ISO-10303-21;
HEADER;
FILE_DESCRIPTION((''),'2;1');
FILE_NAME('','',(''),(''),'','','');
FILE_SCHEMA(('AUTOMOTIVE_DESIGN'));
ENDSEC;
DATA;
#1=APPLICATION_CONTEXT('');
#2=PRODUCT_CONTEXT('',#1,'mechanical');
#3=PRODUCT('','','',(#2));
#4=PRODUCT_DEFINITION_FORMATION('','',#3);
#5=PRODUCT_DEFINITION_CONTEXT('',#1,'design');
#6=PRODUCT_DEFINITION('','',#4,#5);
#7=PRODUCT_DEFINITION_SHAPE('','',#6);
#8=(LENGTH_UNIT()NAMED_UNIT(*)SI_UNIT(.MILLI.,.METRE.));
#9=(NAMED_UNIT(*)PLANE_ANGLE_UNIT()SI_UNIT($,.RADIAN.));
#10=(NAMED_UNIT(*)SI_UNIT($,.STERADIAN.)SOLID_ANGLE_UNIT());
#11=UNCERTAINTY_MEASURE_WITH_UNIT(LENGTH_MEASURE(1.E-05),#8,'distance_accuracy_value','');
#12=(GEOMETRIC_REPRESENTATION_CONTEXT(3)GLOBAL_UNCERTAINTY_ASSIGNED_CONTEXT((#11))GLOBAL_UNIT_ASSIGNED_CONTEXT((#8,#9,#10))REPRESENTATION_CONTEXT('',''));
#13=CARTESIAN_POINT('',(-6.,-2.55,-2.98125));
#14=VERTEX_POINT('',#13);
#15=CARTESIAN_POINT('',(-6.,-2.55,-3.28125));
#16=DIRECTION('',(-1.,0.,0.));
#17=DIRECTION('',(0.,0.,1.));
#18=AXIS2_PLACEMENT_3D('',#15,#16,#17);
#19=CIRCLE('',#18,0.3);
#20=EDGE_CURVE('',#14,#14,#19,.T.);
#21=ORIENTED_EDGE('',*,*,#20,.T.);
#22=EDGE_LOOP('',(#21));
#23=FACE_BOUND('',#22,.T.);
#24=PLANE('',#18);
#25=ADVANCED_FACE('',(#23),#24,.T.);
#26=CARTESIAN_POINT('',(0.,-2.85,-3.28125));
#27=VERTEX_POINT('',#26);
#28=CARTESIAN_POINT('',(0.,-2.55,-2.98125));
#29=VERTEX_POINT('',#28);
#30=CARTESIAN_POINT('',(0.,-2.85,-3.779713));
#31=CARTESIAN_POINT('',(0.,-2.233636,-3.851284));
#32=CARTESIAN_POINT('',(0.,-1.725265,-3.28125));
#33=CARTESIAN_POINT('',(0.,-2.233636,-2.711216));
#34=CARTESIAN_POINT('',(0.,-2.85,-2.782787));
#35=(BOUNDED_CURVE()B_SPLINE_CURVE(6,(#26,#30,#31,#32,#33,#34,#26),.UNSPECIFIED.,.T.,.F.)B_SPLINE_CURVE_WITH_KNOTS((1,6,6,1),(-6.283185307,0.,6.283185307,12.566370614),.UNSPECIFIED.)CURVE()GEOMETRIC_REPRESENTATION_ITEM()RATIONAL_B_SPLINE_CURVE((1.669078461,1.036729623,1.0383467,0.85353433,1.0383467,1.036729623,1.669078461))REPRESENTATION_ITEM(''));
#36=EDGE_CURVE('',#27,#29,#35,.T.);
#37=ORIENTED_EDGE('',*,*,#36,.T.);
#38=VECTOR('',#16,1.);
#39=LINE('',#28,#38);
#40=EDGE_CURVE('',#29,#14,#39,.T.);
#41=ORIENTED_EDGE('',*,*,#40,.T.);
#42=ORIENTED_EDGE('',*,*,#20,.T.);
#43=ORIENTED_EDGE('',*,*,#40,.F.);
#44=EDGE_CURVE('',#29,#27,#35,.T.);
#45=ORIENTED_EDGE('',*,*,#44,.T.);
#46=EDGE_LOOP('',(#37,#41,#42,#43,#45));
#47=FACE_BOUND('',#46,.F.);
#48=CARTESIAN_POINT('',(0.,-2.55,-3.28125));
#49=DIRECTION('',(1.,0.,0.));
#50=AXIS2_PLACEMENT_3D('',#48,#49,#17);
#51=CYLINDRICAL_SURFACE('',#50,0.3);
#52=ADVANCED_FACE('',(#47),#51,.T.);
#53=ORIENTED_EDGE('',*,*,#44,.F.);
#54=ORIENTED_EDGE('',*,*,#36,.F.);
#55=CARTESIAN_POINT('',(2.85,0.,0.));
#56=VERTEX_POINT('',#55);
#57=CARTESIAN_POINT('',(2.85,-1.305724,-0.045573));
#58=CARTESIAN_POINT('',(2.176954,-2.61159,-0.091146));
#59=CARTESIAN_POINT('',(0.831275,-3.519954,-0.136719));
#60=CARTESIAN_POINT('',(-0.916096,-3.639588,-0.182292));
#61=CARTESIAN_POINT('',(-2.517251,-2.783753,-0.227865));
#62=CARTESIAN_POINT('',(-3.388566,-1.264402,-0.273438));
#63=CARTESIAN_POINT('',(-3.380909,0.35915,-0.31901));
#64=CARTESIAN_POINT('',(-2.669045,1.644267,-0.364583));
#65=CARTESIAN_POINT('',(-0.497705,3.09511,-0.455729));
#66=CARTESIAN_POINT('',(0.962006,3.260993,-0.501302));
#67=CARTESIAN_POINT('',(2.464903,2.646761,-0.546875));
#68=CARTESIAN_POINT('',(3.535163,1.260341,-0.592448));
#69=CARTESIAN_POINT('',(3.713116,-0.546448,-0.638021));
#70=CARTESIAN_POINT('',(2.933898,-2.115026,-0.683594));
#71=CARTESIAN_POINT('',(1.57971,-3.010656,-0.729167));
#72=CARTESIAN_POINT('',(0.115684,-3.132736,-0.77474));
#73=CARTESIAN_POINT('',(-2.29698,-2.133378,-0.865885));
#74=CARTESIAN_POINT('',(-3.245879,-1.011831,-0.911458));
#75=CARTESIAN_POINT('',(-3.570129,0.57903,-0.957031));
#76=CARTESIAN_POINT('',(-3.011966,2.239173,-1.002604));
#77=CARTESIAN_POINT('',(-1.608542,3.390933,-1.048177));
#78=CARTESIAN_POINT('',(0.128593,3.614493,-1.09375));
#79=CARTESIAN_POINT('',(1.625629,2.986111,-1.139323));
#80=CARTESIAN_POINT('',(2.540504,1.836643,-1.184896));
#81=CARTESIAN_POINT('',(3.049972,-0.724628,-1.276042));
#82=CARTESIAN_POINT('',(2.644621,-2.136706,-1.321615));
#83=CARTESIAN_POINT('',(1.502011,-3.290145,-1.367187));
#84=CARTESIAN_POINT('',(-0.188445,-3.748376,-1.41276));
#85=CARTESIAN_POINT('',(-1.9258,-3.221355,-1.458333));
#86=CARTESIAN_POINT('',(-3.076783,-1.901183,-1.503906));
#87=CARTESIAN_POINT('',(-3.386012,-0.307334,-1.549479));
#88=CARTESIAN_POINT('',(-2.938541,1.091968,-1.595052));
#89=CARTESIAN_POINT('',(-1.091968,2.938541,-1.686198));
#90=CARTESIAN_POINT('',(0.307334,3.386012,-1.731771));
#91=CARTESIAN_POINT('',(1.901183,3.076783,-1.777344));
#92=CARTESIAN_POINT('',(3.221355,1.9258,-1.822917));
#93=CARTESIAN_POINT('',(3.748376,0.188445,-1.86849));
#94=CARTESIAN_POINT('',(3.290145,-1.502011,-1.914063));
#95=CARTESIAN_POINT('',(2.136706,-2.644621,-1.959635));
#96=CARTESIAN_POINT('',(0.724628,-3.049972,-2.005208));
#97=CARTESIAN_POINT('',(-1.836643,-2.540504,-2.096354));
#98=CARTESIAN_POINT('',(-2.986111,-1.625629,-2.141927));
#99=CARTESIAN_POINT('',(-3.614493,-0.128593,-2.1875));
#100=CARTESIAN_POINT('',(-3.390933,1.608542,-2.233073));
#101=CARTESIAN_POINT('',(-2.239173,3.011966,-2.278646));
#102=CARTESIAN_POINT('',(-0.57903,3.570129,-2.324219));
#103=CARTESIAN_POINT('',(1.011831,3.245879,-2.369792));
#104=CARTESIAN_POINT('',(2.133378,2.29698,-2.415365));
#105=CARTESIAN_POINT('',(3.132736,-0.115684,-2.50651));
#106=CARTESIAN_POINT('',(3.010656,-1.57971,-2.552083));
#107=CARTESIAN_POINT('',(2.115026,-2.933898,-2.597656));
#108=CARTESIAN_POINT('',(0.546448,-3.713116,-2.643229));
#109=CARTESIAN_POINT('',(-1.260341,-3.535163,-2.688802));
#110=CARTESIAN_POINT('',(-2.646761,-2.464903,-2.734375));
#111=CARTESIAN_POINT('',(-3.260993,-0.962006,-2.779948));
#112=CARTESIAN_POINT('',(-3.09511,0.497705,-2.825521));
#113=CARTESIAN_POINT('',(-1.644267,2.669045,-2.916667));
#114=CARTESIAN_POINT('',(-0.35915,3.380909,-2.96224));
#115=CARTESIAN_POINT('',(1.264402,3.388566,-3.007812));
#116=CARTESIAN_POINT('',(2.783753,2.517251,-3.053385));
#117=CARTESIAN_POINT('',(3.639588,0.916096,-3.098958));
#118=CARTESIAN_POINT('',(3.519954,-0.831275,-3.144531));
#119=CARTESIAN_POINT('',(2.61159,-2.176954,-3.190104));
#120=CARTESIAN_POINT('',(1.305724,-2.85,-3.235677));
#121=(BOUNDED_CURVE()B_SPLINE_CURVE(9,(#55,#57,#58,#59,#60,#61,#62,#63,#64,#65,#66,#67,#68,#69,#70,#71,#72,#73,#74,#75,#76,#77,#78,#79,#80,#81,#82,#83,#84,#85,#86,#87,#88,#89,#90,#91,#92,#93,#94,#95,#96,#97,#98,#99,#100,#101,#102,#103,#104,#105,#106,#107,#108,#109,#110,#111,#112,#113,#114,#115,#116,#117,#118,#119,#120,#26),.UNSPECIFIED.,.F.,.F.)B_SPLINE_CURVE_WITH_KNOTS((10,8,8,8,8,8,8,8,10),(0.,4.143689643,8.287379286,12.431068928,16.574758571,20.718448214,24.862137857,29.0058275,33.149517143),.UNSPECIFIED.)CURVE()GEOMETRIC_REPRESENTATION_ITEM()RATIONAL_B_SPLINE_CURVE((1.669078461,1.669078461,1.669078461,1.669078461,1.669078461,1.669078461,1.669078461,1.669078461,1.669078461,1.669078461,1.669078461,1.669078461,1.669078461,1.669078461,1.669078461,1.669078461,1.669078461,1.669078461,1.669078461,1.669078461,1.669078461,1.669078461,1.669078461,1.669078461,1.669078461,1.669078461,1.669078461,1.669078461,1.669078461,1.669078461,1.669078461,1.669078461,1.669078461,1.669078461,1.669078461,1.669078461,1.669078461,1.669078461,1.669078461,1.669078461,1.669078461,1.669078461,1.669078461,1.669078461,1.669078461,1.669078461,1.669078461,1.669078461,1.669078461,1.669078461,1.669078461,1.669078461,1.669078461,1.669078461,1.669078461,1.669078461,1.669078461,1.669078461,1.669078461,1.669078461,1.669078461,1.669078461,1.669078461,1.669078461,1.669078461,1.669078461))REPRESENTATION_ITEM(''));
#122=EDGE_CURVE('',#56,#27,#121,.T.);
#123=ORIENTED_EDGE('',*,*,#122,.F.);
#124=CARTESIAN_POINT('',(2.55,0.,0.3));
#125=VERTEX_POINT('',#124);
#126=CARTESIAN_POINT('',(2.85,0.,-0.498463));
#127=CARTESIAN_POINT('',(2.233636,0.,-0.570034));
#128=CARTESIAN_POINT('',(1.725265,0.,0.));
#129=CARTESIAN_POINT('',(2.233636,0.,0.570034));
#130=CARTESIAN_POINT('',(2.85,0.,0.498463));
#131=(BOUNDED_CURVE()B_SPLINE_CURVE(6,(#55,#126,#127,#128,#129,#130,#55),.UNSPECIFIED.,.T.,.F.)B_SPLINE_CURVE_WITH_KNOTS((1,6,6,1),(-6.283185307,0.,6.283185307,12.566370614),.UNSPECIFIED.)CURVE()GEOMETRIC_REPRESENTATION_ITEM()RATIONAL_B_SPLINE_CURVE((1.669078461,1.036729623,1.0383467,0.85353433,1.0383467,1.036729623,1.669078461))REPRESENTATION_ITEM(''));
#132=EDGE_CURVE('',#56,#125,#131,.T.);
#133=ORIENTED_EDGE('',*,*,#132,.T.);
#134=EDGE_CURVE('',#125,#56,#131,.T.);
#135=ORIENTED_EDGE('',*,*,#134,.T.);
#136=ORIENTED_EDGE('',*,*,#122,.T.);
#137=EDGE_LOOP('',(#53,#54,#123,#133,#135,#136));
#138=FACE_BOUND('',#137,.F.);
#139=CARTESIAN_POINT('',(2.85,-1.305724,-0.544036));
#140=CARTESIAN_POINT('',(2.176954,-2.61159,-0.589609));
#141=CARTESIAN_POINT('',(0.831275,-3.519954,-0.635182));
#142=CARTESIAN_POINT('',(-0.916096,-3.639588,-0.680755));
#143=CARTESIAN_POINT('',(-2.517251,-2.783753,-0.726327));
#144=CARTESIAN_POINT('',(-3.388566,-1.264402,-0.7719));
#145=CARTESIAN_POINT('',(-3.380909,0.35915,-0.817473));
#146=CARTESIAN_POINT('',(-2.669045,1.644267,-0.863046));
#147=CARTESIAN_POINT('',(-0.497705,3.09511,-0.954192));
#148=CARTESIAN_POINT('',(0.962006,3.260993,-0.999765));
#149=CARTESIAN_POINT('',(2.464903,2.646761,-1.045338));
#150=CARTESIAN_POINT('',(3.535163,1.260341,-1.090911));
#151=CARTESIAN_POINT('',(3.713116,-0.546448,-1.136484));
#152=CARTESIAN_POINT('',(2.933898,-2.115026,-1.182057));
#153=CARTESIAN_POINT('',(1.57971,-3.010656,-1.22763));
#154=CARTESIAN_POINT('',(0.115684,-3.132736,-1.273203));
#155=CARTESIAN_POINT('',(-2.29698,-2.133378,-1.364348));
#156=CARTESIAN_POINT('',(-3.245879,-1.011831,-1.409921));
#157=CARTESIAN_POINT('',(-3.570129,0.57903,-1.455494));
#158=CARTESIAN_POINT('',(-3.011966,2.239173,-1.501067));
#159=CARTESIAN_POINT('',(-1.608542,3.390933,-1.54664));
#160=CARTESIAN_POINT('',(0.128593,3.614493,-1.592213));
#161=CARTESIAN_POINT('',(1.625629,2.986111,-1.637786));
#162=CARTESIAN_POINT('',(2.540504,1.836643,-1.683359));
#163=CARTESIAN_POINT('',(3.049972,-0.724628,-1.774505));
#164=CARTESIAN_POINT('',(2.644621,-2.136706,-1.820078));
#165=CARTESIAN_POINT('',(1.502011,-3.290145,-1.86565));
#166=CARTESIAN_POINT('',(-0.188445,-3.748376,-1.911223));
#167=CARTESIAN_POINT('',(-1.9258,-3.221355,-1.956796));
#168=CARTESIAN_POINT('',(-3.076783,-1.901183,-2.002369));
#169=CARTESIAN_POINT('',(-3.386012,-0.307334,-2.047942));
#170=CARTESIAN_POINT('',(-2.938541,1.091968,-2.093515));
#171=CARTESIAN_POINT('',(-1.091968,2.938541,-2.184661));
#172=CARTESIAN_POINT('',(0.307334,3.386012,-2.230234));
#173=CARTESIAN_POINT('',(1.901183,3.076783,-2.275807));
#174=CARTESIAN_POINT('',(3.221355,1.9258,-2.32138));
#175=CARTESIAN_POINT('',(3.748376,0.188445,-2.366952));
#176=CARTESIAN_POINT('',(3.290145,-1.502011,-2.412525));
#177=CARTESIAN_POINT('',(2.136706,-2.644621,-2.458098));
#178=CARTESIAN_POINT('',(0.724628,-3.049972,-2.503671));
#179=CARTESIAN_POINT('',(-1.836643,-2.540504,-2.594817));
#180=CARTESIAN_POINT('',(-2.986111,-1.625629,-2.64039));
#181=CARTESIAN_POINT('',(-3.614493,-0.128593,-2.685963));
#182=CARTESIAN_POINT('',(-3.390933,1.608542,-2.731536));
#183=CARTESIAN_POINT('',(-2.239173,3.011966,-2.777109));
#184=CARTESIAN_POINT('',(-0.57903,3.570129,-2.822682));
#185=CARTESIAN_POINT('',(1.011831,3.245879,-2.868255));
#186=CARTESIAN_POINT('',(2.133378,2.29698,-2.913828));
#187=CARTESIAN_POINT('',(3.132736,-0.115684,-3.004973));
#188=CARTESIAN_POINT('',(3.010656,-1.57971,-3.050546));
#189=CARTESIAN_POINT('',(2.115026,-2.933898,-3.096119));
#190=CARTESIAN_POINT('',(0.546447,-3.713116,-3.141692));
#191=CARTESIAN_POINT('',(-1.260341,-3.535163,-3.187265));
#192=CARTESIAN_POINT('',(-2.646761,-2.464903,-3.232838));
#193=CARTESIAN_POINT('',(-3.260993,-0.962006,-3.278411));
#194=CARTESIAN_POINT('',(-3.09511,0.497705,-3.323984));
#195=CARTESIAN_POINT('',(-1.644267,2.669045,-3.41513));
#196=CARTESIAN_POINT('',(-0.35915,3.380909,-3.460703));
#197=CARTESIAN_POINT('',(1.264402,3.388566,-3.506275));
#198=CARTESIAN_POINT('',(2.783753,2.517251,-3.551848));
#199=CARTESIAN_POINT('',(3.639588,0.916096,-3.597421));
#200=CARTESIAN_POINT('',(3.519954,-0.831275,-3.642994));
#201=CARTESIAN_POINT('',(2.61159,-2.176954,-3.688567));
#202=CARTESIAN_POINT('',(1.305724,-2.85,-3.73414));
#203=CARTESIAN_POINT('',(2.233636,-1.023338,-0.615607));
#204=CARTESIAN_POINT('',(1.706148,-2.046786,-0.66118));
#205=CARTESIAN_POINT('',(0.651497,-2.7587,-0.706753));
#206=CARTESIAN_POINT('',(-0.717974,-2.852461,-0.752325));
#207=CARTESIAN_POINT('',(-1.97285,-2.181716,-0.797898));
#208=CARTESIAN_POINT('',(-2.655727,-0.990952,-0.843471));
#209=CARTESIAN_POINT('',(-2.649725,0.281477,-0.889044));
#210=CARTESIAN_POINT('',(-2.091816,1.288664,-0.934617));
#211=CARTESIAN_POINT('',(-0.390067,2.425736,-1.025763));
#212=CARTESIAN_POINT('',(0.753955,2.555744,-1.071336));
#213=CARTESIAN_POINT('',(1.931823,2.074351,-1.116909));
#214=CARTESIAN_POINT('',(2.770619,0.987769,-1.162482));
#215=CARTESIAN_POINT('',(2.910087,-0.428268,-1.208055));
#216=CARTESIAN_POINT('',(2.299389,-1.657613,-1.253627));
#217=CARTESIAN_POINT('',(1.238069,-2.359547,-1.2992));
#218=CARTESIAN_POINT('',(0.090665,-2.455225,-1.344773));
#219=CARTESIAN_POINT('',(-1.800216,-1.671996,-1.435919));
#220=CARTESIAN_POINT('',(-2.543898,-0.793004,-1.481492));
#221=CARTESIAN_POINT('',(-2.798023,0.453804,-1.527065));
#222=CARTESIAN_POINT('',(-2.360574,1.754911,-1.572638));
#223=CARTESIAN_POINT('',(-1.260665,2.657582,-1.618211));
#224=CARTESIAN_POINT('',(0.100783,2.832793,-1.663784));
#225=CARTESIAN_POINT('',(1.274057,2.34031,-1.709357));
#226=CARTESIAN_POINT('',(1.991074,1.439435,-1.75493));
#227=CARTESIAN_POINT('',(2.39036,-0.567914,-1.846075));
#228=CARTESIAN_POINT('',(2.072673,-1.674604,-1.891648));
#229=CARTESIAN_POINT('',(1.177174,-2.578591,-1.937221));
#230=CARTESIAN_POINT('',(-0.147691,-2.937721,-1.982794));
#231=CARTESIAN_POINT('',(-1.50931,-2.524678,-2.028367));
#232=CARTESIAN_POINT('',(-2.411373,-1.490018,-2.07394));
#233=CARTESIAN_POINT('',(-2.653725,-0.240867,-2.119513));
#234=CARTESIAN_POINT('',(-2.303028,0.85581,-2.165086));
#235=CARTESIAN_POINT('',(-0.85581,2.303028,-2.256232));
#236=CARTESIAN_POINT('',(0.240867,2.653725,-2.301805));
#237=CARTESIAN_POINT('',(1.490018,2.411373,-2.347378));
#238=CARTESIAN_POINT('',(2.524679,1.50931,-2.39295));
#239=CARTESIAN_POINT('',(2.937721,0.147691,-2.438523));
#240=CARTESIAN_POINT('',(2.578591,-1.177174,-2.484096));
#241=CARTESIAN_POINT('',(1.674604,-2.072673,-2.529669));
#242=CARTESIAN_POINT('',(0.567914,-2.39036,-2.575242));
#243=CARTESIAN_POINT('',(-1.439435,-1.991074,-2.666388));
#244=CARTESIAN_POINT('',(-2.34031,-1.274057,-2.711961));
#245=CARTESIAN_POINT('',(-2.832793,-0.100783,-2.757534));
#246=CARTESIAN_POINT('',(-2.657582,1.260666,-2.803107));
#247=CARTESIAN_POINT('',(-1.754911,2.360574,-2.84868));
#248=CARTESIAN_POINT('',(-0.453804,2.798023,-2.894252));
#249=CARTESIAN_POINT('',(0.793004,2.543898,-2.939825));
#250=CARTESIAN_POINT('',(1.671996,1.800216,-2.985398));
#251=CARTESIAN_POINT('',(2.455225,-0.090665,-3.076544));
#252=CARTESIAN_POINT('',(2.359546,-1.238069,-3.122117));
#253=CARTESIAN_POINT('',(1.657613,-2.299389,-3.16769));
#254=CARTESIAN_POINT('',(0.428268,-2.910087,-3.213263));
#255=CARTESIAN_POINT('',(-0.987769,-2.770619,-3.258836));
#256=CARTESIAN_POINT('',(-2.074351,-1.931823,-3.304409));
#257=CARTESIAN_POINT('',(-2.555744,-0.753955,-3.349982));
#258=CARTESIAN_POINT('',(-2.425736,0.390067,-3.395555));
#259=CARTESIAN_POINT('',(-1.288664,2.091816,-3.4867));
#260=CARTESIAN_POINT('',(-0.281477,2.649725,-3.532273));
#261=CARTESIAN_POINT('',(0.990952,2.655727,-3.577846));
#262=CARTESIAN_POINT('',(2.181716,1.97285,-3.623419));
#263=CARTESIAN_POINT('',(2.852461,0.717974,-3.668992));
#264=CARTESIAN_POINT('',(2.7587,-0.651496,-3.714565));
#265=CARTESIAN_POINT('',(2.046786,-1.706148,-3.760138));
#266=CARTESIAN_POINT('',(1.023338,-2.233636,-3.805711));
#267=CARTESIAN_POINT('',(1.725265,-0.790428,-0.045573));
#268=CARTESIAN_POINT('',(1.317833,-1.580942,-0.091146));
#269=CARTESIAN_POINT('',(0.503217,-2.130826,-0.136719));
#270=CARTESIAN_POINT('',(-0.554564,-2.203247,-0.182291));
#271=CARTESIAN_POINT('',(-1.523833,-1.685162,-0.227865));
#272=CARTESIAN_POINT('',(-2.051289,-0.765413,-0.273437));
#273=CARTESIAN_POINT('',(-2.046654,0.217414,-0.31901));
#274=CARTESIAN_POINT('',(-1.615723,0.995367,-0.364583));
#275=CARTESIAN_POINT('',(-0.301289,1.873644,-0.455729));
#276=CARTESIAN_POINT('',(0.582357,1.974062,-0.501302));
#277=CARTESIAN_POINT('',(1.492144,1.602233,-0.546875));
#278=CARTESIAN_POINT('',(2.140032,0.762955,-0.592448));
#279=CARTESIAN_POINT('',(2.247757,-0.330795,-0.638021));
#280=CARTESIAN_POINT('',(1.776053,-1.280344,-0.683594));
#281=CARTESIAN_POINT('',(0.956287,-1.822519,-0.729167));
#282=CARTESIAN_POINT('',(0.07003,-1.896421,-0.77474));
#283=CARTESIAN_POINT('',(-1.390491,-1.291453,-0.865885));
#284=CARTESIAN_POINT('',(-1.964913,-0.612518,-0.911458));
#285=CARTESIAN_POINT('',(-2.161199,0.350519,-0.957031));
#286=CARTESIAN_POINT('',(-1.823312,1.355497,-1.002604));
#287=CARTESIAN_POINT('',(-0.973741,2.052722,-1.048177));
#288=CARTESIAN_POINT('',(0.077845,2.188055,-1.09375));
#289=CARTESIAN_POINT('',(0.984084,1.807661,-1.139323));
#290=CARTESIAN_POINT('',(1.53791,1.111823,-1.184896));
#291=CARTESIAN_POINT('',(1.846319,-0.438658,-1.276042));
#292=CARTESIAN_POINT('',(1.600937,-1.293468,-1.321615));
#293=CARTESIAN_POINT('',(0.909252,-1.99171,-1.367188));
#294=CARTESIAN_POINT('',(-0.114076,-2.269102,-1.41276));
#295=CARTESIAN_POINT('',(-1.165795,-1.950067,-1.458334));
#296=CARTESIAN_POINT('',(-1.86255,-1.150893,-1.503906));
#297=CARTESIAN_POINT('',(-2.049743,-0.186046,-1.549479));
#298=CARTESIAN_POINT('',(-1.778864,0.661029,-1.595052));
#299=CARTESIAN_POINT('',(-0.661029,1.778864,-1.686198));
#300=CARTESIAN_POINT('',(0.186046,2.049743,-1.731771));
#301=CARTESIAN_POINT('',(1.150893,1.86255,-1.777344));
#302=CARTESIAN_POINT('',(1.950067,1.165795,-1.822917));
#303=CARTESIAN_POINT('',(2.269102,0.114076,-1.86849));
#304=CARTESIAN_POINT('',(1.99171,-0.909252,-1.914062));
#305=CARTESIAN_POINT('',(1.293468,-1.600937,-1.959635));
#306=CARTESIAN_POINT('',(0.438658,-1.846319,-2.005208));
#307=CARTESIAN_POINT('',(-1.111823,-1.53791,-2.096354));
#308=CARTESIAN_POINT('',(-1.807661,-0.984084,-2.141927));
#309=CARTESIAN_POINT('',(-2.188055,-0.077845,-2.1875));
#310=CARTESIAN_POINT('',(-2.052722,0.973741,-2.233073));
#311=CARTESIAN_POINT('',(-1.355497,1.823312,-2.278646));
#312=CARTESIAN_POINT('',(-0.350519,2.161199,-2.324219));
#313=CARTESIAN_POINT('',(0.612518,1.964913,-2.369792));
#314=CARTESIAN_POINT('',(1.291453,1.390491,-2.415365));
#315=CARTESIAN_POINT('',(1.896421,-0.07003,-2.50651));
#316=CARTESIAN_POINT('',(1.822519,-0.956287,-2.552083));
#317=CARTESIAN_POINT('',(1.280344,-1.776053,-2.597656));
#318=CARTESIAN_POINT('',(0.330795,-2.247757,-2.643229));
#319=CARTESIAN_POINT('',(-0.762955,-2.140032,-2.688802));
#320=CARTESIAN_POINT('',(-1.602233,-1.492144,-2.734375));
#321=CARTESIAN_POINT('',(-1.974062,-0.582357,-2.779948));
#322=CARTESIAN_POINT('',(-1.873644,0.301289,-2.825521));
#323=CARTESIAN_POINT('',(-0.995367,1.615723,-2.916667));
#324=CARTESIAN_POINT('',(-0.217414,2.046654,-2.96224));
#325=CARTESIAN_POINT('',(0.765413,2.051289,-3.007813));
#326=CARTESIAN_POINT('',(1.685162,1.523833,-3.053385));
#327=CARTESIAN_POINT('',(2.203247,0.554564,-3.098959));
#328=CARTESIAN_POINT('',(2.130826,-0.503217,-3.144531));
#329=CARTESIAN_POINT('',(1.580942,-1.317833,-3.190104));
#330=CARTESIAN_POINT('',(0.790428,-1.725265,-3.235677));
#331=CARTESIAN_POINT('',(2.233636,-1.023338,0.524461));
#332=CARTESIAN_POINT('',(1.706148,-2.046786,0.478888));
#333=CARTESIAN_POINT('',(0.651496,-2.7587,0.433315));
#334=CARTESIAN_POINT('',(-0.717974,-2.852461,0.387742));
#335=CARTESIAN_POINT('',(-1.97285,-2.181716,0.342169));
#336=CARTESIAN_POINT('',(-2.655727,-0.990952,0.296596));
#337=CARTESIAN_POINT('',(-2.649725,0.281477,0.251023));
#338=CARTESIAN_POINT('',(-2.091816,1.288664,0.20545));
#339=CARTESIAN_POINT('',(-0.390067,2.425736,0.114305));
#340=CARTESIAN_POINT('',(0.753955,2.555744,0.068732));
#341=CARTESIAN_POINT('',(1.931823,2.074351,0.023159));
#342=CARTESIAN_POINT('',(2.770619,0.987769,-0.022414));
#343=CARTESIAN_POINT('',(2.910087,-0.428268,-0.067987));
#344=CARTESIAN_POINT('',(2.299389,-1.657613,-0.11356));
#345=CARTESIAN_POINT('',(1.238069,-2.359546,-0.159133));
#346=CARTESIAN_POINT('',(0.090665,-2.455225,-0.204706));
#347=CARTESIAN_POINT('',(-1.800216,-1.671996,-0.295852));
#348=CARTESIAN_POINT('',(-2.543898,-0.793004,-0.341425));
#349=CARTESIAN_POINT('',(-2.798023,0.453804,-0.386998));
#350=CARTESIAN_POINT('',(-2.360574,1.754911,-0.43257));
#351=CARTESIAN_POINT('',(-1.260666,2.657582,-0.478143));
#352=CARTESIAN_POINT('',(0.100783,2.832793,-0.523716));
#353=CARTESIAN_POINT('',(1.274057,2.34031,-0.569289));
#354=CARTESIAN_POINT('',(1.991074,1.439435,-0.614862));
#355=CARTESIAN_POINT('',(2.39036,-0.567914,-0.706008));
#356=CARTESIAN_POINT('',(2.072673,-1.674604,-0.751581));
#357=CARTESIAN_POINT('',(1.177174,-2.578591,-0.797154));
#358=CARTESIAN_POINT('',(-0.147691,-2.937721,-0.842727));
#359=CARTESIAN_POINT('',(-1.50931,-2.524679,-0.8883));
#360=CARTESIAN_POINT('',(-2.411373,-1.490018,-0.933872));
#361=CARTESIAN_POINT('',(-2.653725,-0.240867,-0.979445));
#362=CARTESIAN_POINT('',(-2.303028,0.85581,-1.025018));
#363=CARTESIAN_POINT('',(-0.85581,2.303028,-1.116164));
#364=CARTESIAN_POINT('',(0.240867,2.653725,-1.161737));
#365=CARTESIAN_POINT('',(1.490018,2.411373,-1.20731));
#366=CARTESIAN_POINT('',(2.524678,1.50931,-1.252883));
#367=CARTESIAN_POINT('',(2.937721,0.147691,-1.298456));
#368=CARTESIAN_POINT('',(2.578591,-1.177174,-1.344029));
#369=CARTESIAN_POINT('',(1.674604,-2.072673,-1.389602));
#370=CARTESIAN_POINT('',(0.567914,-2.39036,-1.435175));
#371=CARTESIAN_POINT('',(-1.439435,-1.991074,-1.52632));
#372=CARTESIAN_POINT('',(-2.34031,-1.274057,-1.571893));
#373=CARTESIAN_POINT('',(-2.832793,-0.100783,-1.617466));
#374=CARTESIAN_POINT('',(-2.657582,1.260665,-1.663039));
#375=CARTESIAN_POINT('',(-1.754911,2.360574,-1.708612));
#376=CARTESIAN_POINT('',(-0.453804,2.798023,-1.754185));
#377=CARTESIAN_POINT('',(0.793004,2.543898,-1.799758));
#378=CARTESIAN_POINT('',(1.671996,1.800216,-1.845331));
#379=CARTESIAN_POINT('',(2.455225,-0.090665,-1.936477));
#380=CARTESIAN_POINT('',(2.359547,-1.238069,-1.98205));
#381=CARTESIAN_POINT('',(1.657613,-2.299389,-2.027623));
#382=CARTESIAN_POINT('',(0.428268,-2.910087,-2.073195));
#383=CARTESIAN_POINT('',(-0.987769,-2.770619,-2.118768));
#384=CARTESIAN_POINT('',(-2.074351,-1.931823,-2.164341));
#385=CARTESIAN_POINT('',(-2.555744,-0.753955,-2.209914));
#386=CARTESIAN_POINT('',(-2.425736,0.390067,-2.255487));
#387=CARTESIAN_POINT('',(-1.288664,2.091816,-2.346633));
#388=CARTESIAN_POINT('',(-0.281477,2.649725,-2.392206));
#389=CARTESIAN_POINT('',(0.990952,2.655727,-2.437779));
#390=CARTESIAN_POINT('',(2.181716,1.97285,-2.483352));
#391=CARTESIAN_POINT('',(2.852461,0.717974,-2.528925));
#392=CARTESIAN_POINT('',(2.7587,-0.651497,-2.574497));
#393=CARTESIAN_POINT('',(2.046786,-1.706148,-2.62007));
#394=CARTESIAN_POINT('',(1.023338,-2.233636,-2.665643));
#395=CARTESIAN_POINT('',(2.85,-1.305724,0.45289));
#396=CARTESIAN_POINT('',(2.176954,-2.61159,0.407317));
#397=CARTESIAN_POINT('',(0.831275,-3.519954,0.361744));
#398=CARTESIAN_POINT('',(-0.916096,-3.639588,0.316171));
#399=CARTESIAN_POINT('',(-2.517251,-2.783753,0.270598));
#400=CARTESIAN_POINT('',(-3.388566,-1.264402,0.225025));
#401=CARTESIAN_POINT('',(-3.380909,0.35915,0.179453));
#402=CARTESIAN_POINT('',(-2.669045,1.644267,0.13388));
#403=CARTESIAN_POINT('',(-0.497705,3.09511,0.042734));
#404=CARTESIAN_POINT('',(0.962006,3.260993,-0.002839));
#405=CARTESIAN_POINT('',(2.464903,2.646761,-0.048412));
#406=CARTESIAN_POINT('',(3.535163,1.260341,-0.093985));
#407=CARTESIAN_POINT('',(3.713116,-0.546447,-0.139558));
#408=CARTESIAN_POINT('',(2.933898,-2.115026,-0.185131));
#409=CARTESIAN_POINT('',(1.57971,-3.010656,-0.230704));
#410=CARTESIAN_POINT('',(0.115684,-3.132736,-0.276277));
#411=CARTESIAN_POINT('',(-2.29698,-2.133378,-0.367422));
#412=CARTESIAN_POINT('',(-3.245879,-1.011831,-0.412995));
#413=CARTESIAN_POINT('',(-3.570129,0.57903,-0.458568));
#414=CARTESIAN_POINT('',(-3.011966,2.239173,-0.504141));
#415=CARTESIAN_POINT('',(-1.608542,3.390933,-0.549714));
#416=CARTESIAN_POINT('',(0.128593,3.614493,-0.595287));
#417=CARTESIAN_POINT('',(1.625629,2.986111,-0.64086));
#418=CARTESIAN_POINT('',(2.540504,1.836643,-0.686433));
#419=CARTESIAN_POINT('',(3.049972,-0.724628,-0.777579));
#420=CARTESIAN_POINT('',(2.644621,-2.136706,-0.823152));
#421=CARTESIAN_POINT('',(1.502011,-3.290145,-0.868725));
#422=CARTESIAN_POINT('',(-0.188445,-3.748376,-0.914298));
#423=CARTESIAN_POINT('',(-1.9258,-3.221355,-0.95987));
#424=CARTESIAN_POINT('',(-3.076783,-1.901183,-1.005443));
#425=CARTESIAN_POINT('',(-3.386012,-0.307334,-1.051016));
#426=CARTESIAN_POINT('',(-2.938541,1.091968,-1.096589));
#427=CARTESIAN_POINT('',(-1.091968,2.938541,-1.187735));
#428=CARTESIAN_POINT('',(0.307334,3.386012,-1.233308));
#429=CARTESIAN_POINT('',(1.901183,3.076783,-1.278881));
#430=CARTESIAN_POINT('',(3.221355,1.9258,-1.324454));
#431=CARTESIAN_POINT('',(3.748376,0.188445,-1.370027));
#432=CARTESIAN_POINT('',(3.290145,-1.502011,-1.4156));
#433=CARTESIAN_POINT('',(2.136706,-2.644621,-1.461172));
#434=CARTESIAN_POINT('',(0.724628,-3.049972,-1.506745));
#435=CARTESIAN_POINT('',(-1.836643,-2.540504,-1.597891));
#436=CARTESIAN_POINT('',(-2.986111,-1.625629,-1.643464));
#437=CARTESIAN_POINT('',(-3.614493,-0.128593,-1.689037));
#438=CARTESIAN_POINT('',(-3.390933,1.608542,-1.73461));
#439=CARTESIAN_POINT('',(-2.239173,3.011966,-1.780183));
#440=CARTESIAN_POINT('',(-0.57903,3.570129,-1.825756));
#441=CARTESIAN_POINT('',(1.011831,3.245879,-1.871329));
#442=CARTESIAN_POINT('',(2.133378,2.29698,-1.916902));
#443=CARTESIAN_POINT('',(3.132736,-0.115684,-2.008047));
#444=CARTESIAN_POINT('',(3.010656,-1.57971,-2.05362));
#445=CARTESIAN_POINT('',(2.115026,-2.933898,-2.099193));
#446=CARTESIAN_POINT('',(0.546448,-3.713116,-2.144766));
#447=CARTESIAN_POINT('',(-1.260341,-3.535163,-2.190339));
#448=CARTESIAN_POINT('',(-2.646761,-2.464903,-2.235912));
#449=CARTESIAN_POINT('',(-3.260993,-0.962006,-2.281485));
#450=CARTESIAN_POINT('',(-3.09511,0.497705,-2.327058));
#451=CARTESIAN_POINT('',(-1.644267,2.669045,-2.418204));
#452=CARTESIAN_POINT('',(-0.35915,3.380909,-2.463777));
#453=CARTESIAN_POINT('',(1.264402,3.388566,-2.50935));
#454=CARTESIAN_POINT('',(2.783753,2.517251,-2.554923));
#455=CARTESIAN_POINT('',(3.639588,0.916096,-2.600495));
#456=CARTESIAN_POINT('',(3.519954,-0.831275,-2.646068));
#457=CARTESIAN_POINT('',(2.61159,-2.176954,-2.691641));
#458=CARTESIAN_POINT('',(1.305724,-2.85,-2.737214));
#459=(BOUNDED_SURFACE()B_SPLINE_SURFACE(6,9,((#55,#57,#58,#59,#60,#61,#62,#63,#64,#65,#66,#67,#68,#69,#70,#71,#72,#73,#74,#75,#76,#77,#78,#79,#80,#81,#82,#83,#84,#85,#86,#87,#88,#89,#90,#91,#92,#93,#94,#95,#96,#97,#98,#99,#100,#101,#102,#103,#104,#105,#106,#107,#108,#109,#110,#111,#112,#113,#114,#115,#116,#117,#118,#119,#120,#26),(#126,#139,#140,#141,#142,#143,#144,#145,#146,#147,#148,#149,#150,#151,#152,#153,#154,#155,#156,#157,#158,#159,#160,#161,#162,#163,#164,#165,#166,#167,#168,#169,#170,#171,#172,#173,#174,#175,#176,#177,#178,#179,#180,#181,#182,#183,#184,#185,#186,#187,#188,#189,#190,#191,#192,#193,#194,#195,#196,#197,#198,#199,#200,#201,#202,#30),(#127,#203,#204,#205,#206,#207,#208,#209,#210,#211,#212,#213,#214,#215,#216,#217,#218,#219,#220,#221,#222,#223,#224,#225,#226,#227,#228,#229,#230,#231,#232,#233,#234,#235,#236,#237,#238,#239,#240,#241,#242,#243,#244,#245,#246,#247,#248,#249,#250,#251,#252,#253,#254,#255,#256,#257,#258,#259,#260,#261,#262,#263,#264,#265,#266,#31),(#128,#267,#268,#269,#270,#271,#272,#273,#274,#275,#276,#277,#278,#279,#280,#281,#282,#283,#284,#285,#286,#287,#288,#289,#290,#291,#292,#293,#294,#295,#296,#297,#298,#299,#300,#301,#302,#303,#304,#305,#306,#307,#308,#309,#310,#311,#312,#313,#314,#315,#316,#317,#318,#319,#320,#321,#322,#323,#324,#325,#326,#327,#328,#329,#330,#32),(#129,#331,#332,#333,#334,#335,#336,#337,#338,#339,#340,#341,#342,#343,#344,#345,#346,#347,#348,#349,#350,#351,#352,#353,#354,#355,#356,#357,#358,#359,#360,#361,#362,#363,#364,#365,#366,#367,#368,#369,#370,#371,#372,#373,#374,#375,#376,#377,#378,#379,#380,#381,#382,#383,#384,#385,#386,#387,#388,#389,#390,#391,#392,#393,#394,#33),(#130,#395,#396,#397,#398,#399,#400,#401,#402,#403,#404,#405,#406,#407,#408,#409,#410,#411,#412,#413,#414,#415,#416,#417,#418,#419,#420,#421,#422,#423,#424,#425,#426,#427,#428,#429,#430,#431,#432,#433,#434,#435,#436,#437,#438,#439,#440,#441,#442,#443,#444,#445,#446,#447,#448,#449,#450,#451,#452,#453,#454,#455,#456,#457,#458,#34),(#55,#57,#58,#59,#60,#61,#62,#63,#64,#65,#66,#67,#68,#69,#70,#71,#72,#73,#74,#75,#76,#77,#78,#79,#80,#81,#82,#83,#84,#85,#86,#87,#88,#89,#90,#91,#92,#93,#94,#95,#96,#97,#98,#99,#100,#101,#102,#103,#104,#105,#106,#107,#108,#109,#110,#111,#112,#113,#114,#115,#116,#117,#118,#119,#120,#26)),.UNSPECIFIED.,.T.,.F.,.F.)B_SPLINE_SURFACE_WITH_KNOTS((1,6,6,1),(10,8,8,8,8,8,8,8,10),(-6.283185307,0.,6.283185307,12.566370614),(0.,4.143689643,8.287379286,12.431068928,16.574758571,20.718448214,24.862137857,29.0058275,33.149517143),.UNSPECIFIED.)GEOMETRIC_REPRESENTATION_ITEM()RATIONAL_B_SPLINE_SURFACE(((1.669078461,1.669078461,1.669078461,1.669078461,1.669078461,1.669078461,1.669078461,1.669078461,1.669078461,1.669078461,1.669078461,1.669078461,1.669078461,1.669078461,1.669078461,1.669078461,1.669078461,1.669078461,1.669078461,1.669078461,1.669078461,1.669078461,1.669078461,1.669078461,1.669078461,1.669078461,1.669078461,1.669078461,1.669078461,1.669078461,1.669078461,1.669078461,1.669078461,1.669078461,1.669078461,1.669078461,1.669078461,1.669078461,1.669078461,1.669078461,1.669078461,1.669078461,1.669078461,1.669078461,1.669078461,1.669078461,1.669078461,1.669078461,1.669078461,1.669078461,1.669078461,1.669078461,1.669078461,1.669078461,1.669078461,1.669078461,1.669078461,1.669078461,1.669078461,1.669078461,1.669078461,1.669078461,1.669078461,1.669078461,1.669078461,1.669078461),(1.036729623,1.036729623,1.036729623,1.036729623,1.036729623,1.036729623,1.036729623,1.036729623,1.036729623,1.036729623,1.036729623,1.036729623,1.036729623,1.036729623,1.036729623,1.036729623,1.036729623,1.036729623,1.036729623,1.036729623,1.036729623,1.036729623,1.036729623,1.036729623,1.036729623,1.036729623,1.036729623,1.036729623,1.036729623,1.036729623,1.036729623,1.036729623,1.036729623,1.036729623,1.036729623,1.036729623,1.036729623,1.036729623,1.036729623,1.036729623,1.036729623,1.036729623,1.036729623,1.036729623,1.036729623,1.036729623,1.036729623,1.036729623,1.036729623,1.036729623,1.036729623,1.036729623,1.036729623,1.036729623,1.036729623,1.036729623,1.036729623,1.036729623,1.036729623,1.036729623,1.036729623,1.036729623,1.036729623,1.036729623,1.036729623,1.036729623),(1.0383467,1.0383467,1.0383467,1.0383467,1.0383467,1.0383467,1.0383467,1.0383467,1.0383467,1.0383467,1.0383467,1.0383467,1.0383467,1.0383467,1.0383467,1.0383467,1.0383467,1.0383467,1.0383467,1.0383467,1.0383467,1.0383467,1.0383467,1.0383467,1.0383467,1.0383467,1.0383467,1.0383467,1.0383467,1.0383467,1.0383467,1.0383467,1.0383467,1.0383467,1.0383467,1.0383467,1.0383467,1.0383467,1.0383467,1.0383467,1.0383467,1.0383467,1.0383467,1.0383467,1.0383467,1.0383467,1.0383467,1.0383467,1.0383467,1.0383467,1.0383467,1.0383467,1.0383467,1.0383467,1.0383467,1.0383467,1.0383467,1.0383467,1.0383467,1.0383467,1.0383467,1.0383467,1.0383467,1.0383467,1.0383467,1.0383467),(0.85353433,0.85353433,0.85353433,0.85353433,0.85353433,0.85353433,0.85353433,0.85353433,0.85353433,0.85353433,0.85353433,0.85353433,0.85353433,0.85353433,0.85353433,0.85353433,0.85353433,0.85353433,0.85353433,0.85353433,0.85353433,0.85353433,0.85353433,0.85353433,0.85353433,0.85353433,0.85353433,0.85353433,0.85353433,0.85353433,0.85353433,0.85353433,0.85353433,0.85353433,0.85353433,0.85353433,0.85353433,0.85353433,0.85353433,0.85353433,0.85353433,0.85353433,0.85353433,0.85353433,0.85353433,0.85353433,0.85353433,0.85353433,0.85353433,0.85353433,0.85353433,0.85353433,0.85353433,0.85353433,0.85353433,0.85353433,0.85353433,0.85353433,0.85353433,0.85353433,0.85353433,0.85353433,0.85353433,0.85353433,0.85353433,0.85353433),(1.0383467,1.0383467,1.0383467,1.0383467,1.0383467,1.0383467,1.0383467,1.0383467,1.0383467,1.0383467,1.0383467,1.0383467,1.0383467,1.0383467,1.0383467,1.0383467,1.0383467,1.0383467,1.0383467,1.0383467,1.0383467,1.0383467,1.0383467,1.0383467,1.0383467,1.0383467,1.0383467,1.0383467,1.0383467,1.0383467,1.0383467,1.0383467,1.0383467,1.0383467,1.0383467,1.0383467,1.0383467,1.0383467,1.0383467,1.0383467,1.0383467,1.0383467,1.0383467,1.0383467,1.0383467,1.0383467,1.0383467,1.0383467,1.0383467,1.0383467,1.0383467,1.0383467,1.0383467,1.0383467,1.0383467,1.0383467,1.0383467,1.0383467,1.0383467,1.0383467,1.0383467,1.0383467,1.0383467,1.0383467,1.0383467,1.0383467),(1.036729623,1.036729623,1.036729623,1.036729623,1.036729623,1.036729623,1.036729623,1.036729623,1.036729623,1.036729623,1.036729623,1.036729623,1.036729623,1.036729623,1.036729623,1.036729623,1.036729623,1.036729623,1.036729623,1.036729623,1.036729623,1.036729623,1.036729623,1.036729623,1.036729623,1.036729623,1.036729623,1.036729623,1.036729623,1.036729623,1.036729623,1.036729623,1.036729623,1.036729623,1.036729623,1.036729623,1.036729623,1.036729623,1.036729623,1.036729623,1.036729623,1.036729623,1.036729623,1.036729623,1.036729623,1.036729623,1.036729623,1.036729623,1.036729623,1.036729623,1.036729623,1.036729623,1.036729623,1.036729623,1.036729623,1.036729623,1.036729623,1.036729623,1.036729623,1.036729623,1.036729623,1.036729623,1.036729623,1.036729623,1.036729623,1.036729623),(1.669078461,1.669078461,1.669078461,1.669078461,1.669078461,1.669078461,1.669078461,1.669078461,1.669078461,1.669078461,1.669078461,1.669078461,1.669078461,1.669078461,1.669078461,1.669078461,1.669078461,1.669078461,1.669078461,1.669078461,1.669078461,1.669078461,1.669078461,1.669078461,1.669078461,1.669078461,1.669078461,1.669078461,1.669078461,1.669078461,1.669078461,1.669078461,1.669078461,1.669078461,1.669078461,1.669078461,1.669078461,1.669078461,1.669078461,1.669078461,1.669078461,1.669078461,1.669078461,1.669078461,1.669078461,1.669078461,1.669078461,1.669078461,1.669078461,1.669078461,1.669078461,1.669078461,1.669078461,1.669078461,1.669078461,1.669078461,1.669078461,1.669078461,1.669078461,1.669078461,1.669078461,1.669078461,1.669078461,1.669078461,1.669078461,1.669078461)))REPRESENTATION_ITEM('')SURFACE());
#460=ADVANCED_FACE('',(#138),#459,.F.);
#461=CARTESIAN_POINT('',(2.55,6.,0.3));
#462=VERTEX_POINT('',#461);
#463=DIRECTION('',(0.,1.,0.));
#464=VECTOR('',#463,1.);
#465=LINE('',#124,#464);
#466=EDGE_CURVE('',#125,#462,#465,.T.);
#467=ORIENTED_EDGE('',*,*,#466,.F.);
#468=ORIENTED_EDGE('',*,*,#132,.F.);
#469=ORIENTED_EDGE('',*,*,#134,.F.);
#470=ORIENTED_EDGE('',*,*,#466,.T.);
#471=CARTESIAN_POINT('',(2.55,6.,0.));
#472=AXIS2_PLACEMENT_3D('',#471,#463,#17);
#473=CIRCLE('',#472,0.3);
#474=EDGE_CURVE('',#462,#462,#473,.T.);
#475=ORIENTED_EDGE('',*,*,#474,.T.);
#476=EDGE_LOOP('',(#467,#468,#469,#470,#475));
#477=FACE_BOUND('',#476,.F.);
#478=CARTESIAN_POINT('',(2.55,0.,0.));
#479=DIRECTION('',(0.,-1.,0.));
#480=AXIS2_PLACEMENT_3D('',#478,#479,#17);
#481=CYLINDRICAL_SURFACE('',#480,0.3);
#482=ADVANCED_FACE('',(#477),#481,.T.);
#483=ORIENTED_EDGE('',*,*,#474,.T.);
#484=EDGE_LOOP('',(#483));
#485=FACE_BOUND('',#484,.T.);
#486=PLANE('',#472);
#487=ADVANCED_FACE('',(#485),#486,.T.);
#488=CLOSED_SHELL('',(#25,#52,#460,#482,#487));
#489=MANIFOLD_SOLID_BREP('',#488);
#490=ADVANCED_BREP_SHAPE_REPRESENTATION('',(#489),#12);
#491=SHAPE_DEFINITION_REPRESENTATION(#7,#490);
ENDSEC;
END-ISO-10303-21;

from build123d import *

# Parameters (mm, degrees)
SWEEP1_PITCH        = 0.625
SWEEP1_HEIGHT       = 3.28125
SWEEP1_RADIUS       = 2.55
SWEEP1_START_ANGLE  = 180
SKETCH2_R           = 0.3
SKETCH4_R           = 0.3
BOSS_EXTRUDE1_DEPTH = 6
SKETCH5_R           = 0.3
BOSS_EXTRUDE2_DEPTH = 6


with BuildPart() as part:
    # Sweep1: sweep along a helix
    with BuildLine() as sweep1_path:
        add(Helix(SWEEP1_PITCH, SWEEP1_HEIGHT, SWEEP1_RADIUS, center=(0, 0, 0), direction=(0, 0, -1), mode=Mode.PRIVATE).rotate(Axis((0, 0, 0), (0, 0, -1)), SWEEP1_START_ANGLE))
    # Sketch2 → Sweep1 (sweep)
    with BuildSketch(Plane(origin=(0, 0, 0), x_dir=(1, 0, 0), z_dir=(0, 1, 0))):
        with Locations((2.55, 0)):
            Circle(SKETCH2_R)
    sweep(path=sweep1_path.line, is_frenet=True)

    # Sketch4 → Boss-Extrude1 (add)
    with BuildSketch(Plane(origin=(0, 0, 0), x_dir=(0, -1, 0), z_dir=(-1, 0, 0))):
        with Locations(Location((2.55, -3.28125, 0), (0, 0, 90))):
            Circle(SKETCH4_R)
    extrude(amount=BOSS_EXTRUDE1_DEPTH)

    # Sketch5 → Boss-Extrude2 (add)
    with BuildSketch(Plane(origin=(0, 0, 0), x_dir=(1, 0, 0), z_dir=(0, 1, 0))):
        with Locations(Location((2.55, 0, 0), (0, 0, 270))):
            Circle(SKETCH5_R)
    extrude(amount=BOSS_EXTRUDE2_DEPTH)


solid = part.part
